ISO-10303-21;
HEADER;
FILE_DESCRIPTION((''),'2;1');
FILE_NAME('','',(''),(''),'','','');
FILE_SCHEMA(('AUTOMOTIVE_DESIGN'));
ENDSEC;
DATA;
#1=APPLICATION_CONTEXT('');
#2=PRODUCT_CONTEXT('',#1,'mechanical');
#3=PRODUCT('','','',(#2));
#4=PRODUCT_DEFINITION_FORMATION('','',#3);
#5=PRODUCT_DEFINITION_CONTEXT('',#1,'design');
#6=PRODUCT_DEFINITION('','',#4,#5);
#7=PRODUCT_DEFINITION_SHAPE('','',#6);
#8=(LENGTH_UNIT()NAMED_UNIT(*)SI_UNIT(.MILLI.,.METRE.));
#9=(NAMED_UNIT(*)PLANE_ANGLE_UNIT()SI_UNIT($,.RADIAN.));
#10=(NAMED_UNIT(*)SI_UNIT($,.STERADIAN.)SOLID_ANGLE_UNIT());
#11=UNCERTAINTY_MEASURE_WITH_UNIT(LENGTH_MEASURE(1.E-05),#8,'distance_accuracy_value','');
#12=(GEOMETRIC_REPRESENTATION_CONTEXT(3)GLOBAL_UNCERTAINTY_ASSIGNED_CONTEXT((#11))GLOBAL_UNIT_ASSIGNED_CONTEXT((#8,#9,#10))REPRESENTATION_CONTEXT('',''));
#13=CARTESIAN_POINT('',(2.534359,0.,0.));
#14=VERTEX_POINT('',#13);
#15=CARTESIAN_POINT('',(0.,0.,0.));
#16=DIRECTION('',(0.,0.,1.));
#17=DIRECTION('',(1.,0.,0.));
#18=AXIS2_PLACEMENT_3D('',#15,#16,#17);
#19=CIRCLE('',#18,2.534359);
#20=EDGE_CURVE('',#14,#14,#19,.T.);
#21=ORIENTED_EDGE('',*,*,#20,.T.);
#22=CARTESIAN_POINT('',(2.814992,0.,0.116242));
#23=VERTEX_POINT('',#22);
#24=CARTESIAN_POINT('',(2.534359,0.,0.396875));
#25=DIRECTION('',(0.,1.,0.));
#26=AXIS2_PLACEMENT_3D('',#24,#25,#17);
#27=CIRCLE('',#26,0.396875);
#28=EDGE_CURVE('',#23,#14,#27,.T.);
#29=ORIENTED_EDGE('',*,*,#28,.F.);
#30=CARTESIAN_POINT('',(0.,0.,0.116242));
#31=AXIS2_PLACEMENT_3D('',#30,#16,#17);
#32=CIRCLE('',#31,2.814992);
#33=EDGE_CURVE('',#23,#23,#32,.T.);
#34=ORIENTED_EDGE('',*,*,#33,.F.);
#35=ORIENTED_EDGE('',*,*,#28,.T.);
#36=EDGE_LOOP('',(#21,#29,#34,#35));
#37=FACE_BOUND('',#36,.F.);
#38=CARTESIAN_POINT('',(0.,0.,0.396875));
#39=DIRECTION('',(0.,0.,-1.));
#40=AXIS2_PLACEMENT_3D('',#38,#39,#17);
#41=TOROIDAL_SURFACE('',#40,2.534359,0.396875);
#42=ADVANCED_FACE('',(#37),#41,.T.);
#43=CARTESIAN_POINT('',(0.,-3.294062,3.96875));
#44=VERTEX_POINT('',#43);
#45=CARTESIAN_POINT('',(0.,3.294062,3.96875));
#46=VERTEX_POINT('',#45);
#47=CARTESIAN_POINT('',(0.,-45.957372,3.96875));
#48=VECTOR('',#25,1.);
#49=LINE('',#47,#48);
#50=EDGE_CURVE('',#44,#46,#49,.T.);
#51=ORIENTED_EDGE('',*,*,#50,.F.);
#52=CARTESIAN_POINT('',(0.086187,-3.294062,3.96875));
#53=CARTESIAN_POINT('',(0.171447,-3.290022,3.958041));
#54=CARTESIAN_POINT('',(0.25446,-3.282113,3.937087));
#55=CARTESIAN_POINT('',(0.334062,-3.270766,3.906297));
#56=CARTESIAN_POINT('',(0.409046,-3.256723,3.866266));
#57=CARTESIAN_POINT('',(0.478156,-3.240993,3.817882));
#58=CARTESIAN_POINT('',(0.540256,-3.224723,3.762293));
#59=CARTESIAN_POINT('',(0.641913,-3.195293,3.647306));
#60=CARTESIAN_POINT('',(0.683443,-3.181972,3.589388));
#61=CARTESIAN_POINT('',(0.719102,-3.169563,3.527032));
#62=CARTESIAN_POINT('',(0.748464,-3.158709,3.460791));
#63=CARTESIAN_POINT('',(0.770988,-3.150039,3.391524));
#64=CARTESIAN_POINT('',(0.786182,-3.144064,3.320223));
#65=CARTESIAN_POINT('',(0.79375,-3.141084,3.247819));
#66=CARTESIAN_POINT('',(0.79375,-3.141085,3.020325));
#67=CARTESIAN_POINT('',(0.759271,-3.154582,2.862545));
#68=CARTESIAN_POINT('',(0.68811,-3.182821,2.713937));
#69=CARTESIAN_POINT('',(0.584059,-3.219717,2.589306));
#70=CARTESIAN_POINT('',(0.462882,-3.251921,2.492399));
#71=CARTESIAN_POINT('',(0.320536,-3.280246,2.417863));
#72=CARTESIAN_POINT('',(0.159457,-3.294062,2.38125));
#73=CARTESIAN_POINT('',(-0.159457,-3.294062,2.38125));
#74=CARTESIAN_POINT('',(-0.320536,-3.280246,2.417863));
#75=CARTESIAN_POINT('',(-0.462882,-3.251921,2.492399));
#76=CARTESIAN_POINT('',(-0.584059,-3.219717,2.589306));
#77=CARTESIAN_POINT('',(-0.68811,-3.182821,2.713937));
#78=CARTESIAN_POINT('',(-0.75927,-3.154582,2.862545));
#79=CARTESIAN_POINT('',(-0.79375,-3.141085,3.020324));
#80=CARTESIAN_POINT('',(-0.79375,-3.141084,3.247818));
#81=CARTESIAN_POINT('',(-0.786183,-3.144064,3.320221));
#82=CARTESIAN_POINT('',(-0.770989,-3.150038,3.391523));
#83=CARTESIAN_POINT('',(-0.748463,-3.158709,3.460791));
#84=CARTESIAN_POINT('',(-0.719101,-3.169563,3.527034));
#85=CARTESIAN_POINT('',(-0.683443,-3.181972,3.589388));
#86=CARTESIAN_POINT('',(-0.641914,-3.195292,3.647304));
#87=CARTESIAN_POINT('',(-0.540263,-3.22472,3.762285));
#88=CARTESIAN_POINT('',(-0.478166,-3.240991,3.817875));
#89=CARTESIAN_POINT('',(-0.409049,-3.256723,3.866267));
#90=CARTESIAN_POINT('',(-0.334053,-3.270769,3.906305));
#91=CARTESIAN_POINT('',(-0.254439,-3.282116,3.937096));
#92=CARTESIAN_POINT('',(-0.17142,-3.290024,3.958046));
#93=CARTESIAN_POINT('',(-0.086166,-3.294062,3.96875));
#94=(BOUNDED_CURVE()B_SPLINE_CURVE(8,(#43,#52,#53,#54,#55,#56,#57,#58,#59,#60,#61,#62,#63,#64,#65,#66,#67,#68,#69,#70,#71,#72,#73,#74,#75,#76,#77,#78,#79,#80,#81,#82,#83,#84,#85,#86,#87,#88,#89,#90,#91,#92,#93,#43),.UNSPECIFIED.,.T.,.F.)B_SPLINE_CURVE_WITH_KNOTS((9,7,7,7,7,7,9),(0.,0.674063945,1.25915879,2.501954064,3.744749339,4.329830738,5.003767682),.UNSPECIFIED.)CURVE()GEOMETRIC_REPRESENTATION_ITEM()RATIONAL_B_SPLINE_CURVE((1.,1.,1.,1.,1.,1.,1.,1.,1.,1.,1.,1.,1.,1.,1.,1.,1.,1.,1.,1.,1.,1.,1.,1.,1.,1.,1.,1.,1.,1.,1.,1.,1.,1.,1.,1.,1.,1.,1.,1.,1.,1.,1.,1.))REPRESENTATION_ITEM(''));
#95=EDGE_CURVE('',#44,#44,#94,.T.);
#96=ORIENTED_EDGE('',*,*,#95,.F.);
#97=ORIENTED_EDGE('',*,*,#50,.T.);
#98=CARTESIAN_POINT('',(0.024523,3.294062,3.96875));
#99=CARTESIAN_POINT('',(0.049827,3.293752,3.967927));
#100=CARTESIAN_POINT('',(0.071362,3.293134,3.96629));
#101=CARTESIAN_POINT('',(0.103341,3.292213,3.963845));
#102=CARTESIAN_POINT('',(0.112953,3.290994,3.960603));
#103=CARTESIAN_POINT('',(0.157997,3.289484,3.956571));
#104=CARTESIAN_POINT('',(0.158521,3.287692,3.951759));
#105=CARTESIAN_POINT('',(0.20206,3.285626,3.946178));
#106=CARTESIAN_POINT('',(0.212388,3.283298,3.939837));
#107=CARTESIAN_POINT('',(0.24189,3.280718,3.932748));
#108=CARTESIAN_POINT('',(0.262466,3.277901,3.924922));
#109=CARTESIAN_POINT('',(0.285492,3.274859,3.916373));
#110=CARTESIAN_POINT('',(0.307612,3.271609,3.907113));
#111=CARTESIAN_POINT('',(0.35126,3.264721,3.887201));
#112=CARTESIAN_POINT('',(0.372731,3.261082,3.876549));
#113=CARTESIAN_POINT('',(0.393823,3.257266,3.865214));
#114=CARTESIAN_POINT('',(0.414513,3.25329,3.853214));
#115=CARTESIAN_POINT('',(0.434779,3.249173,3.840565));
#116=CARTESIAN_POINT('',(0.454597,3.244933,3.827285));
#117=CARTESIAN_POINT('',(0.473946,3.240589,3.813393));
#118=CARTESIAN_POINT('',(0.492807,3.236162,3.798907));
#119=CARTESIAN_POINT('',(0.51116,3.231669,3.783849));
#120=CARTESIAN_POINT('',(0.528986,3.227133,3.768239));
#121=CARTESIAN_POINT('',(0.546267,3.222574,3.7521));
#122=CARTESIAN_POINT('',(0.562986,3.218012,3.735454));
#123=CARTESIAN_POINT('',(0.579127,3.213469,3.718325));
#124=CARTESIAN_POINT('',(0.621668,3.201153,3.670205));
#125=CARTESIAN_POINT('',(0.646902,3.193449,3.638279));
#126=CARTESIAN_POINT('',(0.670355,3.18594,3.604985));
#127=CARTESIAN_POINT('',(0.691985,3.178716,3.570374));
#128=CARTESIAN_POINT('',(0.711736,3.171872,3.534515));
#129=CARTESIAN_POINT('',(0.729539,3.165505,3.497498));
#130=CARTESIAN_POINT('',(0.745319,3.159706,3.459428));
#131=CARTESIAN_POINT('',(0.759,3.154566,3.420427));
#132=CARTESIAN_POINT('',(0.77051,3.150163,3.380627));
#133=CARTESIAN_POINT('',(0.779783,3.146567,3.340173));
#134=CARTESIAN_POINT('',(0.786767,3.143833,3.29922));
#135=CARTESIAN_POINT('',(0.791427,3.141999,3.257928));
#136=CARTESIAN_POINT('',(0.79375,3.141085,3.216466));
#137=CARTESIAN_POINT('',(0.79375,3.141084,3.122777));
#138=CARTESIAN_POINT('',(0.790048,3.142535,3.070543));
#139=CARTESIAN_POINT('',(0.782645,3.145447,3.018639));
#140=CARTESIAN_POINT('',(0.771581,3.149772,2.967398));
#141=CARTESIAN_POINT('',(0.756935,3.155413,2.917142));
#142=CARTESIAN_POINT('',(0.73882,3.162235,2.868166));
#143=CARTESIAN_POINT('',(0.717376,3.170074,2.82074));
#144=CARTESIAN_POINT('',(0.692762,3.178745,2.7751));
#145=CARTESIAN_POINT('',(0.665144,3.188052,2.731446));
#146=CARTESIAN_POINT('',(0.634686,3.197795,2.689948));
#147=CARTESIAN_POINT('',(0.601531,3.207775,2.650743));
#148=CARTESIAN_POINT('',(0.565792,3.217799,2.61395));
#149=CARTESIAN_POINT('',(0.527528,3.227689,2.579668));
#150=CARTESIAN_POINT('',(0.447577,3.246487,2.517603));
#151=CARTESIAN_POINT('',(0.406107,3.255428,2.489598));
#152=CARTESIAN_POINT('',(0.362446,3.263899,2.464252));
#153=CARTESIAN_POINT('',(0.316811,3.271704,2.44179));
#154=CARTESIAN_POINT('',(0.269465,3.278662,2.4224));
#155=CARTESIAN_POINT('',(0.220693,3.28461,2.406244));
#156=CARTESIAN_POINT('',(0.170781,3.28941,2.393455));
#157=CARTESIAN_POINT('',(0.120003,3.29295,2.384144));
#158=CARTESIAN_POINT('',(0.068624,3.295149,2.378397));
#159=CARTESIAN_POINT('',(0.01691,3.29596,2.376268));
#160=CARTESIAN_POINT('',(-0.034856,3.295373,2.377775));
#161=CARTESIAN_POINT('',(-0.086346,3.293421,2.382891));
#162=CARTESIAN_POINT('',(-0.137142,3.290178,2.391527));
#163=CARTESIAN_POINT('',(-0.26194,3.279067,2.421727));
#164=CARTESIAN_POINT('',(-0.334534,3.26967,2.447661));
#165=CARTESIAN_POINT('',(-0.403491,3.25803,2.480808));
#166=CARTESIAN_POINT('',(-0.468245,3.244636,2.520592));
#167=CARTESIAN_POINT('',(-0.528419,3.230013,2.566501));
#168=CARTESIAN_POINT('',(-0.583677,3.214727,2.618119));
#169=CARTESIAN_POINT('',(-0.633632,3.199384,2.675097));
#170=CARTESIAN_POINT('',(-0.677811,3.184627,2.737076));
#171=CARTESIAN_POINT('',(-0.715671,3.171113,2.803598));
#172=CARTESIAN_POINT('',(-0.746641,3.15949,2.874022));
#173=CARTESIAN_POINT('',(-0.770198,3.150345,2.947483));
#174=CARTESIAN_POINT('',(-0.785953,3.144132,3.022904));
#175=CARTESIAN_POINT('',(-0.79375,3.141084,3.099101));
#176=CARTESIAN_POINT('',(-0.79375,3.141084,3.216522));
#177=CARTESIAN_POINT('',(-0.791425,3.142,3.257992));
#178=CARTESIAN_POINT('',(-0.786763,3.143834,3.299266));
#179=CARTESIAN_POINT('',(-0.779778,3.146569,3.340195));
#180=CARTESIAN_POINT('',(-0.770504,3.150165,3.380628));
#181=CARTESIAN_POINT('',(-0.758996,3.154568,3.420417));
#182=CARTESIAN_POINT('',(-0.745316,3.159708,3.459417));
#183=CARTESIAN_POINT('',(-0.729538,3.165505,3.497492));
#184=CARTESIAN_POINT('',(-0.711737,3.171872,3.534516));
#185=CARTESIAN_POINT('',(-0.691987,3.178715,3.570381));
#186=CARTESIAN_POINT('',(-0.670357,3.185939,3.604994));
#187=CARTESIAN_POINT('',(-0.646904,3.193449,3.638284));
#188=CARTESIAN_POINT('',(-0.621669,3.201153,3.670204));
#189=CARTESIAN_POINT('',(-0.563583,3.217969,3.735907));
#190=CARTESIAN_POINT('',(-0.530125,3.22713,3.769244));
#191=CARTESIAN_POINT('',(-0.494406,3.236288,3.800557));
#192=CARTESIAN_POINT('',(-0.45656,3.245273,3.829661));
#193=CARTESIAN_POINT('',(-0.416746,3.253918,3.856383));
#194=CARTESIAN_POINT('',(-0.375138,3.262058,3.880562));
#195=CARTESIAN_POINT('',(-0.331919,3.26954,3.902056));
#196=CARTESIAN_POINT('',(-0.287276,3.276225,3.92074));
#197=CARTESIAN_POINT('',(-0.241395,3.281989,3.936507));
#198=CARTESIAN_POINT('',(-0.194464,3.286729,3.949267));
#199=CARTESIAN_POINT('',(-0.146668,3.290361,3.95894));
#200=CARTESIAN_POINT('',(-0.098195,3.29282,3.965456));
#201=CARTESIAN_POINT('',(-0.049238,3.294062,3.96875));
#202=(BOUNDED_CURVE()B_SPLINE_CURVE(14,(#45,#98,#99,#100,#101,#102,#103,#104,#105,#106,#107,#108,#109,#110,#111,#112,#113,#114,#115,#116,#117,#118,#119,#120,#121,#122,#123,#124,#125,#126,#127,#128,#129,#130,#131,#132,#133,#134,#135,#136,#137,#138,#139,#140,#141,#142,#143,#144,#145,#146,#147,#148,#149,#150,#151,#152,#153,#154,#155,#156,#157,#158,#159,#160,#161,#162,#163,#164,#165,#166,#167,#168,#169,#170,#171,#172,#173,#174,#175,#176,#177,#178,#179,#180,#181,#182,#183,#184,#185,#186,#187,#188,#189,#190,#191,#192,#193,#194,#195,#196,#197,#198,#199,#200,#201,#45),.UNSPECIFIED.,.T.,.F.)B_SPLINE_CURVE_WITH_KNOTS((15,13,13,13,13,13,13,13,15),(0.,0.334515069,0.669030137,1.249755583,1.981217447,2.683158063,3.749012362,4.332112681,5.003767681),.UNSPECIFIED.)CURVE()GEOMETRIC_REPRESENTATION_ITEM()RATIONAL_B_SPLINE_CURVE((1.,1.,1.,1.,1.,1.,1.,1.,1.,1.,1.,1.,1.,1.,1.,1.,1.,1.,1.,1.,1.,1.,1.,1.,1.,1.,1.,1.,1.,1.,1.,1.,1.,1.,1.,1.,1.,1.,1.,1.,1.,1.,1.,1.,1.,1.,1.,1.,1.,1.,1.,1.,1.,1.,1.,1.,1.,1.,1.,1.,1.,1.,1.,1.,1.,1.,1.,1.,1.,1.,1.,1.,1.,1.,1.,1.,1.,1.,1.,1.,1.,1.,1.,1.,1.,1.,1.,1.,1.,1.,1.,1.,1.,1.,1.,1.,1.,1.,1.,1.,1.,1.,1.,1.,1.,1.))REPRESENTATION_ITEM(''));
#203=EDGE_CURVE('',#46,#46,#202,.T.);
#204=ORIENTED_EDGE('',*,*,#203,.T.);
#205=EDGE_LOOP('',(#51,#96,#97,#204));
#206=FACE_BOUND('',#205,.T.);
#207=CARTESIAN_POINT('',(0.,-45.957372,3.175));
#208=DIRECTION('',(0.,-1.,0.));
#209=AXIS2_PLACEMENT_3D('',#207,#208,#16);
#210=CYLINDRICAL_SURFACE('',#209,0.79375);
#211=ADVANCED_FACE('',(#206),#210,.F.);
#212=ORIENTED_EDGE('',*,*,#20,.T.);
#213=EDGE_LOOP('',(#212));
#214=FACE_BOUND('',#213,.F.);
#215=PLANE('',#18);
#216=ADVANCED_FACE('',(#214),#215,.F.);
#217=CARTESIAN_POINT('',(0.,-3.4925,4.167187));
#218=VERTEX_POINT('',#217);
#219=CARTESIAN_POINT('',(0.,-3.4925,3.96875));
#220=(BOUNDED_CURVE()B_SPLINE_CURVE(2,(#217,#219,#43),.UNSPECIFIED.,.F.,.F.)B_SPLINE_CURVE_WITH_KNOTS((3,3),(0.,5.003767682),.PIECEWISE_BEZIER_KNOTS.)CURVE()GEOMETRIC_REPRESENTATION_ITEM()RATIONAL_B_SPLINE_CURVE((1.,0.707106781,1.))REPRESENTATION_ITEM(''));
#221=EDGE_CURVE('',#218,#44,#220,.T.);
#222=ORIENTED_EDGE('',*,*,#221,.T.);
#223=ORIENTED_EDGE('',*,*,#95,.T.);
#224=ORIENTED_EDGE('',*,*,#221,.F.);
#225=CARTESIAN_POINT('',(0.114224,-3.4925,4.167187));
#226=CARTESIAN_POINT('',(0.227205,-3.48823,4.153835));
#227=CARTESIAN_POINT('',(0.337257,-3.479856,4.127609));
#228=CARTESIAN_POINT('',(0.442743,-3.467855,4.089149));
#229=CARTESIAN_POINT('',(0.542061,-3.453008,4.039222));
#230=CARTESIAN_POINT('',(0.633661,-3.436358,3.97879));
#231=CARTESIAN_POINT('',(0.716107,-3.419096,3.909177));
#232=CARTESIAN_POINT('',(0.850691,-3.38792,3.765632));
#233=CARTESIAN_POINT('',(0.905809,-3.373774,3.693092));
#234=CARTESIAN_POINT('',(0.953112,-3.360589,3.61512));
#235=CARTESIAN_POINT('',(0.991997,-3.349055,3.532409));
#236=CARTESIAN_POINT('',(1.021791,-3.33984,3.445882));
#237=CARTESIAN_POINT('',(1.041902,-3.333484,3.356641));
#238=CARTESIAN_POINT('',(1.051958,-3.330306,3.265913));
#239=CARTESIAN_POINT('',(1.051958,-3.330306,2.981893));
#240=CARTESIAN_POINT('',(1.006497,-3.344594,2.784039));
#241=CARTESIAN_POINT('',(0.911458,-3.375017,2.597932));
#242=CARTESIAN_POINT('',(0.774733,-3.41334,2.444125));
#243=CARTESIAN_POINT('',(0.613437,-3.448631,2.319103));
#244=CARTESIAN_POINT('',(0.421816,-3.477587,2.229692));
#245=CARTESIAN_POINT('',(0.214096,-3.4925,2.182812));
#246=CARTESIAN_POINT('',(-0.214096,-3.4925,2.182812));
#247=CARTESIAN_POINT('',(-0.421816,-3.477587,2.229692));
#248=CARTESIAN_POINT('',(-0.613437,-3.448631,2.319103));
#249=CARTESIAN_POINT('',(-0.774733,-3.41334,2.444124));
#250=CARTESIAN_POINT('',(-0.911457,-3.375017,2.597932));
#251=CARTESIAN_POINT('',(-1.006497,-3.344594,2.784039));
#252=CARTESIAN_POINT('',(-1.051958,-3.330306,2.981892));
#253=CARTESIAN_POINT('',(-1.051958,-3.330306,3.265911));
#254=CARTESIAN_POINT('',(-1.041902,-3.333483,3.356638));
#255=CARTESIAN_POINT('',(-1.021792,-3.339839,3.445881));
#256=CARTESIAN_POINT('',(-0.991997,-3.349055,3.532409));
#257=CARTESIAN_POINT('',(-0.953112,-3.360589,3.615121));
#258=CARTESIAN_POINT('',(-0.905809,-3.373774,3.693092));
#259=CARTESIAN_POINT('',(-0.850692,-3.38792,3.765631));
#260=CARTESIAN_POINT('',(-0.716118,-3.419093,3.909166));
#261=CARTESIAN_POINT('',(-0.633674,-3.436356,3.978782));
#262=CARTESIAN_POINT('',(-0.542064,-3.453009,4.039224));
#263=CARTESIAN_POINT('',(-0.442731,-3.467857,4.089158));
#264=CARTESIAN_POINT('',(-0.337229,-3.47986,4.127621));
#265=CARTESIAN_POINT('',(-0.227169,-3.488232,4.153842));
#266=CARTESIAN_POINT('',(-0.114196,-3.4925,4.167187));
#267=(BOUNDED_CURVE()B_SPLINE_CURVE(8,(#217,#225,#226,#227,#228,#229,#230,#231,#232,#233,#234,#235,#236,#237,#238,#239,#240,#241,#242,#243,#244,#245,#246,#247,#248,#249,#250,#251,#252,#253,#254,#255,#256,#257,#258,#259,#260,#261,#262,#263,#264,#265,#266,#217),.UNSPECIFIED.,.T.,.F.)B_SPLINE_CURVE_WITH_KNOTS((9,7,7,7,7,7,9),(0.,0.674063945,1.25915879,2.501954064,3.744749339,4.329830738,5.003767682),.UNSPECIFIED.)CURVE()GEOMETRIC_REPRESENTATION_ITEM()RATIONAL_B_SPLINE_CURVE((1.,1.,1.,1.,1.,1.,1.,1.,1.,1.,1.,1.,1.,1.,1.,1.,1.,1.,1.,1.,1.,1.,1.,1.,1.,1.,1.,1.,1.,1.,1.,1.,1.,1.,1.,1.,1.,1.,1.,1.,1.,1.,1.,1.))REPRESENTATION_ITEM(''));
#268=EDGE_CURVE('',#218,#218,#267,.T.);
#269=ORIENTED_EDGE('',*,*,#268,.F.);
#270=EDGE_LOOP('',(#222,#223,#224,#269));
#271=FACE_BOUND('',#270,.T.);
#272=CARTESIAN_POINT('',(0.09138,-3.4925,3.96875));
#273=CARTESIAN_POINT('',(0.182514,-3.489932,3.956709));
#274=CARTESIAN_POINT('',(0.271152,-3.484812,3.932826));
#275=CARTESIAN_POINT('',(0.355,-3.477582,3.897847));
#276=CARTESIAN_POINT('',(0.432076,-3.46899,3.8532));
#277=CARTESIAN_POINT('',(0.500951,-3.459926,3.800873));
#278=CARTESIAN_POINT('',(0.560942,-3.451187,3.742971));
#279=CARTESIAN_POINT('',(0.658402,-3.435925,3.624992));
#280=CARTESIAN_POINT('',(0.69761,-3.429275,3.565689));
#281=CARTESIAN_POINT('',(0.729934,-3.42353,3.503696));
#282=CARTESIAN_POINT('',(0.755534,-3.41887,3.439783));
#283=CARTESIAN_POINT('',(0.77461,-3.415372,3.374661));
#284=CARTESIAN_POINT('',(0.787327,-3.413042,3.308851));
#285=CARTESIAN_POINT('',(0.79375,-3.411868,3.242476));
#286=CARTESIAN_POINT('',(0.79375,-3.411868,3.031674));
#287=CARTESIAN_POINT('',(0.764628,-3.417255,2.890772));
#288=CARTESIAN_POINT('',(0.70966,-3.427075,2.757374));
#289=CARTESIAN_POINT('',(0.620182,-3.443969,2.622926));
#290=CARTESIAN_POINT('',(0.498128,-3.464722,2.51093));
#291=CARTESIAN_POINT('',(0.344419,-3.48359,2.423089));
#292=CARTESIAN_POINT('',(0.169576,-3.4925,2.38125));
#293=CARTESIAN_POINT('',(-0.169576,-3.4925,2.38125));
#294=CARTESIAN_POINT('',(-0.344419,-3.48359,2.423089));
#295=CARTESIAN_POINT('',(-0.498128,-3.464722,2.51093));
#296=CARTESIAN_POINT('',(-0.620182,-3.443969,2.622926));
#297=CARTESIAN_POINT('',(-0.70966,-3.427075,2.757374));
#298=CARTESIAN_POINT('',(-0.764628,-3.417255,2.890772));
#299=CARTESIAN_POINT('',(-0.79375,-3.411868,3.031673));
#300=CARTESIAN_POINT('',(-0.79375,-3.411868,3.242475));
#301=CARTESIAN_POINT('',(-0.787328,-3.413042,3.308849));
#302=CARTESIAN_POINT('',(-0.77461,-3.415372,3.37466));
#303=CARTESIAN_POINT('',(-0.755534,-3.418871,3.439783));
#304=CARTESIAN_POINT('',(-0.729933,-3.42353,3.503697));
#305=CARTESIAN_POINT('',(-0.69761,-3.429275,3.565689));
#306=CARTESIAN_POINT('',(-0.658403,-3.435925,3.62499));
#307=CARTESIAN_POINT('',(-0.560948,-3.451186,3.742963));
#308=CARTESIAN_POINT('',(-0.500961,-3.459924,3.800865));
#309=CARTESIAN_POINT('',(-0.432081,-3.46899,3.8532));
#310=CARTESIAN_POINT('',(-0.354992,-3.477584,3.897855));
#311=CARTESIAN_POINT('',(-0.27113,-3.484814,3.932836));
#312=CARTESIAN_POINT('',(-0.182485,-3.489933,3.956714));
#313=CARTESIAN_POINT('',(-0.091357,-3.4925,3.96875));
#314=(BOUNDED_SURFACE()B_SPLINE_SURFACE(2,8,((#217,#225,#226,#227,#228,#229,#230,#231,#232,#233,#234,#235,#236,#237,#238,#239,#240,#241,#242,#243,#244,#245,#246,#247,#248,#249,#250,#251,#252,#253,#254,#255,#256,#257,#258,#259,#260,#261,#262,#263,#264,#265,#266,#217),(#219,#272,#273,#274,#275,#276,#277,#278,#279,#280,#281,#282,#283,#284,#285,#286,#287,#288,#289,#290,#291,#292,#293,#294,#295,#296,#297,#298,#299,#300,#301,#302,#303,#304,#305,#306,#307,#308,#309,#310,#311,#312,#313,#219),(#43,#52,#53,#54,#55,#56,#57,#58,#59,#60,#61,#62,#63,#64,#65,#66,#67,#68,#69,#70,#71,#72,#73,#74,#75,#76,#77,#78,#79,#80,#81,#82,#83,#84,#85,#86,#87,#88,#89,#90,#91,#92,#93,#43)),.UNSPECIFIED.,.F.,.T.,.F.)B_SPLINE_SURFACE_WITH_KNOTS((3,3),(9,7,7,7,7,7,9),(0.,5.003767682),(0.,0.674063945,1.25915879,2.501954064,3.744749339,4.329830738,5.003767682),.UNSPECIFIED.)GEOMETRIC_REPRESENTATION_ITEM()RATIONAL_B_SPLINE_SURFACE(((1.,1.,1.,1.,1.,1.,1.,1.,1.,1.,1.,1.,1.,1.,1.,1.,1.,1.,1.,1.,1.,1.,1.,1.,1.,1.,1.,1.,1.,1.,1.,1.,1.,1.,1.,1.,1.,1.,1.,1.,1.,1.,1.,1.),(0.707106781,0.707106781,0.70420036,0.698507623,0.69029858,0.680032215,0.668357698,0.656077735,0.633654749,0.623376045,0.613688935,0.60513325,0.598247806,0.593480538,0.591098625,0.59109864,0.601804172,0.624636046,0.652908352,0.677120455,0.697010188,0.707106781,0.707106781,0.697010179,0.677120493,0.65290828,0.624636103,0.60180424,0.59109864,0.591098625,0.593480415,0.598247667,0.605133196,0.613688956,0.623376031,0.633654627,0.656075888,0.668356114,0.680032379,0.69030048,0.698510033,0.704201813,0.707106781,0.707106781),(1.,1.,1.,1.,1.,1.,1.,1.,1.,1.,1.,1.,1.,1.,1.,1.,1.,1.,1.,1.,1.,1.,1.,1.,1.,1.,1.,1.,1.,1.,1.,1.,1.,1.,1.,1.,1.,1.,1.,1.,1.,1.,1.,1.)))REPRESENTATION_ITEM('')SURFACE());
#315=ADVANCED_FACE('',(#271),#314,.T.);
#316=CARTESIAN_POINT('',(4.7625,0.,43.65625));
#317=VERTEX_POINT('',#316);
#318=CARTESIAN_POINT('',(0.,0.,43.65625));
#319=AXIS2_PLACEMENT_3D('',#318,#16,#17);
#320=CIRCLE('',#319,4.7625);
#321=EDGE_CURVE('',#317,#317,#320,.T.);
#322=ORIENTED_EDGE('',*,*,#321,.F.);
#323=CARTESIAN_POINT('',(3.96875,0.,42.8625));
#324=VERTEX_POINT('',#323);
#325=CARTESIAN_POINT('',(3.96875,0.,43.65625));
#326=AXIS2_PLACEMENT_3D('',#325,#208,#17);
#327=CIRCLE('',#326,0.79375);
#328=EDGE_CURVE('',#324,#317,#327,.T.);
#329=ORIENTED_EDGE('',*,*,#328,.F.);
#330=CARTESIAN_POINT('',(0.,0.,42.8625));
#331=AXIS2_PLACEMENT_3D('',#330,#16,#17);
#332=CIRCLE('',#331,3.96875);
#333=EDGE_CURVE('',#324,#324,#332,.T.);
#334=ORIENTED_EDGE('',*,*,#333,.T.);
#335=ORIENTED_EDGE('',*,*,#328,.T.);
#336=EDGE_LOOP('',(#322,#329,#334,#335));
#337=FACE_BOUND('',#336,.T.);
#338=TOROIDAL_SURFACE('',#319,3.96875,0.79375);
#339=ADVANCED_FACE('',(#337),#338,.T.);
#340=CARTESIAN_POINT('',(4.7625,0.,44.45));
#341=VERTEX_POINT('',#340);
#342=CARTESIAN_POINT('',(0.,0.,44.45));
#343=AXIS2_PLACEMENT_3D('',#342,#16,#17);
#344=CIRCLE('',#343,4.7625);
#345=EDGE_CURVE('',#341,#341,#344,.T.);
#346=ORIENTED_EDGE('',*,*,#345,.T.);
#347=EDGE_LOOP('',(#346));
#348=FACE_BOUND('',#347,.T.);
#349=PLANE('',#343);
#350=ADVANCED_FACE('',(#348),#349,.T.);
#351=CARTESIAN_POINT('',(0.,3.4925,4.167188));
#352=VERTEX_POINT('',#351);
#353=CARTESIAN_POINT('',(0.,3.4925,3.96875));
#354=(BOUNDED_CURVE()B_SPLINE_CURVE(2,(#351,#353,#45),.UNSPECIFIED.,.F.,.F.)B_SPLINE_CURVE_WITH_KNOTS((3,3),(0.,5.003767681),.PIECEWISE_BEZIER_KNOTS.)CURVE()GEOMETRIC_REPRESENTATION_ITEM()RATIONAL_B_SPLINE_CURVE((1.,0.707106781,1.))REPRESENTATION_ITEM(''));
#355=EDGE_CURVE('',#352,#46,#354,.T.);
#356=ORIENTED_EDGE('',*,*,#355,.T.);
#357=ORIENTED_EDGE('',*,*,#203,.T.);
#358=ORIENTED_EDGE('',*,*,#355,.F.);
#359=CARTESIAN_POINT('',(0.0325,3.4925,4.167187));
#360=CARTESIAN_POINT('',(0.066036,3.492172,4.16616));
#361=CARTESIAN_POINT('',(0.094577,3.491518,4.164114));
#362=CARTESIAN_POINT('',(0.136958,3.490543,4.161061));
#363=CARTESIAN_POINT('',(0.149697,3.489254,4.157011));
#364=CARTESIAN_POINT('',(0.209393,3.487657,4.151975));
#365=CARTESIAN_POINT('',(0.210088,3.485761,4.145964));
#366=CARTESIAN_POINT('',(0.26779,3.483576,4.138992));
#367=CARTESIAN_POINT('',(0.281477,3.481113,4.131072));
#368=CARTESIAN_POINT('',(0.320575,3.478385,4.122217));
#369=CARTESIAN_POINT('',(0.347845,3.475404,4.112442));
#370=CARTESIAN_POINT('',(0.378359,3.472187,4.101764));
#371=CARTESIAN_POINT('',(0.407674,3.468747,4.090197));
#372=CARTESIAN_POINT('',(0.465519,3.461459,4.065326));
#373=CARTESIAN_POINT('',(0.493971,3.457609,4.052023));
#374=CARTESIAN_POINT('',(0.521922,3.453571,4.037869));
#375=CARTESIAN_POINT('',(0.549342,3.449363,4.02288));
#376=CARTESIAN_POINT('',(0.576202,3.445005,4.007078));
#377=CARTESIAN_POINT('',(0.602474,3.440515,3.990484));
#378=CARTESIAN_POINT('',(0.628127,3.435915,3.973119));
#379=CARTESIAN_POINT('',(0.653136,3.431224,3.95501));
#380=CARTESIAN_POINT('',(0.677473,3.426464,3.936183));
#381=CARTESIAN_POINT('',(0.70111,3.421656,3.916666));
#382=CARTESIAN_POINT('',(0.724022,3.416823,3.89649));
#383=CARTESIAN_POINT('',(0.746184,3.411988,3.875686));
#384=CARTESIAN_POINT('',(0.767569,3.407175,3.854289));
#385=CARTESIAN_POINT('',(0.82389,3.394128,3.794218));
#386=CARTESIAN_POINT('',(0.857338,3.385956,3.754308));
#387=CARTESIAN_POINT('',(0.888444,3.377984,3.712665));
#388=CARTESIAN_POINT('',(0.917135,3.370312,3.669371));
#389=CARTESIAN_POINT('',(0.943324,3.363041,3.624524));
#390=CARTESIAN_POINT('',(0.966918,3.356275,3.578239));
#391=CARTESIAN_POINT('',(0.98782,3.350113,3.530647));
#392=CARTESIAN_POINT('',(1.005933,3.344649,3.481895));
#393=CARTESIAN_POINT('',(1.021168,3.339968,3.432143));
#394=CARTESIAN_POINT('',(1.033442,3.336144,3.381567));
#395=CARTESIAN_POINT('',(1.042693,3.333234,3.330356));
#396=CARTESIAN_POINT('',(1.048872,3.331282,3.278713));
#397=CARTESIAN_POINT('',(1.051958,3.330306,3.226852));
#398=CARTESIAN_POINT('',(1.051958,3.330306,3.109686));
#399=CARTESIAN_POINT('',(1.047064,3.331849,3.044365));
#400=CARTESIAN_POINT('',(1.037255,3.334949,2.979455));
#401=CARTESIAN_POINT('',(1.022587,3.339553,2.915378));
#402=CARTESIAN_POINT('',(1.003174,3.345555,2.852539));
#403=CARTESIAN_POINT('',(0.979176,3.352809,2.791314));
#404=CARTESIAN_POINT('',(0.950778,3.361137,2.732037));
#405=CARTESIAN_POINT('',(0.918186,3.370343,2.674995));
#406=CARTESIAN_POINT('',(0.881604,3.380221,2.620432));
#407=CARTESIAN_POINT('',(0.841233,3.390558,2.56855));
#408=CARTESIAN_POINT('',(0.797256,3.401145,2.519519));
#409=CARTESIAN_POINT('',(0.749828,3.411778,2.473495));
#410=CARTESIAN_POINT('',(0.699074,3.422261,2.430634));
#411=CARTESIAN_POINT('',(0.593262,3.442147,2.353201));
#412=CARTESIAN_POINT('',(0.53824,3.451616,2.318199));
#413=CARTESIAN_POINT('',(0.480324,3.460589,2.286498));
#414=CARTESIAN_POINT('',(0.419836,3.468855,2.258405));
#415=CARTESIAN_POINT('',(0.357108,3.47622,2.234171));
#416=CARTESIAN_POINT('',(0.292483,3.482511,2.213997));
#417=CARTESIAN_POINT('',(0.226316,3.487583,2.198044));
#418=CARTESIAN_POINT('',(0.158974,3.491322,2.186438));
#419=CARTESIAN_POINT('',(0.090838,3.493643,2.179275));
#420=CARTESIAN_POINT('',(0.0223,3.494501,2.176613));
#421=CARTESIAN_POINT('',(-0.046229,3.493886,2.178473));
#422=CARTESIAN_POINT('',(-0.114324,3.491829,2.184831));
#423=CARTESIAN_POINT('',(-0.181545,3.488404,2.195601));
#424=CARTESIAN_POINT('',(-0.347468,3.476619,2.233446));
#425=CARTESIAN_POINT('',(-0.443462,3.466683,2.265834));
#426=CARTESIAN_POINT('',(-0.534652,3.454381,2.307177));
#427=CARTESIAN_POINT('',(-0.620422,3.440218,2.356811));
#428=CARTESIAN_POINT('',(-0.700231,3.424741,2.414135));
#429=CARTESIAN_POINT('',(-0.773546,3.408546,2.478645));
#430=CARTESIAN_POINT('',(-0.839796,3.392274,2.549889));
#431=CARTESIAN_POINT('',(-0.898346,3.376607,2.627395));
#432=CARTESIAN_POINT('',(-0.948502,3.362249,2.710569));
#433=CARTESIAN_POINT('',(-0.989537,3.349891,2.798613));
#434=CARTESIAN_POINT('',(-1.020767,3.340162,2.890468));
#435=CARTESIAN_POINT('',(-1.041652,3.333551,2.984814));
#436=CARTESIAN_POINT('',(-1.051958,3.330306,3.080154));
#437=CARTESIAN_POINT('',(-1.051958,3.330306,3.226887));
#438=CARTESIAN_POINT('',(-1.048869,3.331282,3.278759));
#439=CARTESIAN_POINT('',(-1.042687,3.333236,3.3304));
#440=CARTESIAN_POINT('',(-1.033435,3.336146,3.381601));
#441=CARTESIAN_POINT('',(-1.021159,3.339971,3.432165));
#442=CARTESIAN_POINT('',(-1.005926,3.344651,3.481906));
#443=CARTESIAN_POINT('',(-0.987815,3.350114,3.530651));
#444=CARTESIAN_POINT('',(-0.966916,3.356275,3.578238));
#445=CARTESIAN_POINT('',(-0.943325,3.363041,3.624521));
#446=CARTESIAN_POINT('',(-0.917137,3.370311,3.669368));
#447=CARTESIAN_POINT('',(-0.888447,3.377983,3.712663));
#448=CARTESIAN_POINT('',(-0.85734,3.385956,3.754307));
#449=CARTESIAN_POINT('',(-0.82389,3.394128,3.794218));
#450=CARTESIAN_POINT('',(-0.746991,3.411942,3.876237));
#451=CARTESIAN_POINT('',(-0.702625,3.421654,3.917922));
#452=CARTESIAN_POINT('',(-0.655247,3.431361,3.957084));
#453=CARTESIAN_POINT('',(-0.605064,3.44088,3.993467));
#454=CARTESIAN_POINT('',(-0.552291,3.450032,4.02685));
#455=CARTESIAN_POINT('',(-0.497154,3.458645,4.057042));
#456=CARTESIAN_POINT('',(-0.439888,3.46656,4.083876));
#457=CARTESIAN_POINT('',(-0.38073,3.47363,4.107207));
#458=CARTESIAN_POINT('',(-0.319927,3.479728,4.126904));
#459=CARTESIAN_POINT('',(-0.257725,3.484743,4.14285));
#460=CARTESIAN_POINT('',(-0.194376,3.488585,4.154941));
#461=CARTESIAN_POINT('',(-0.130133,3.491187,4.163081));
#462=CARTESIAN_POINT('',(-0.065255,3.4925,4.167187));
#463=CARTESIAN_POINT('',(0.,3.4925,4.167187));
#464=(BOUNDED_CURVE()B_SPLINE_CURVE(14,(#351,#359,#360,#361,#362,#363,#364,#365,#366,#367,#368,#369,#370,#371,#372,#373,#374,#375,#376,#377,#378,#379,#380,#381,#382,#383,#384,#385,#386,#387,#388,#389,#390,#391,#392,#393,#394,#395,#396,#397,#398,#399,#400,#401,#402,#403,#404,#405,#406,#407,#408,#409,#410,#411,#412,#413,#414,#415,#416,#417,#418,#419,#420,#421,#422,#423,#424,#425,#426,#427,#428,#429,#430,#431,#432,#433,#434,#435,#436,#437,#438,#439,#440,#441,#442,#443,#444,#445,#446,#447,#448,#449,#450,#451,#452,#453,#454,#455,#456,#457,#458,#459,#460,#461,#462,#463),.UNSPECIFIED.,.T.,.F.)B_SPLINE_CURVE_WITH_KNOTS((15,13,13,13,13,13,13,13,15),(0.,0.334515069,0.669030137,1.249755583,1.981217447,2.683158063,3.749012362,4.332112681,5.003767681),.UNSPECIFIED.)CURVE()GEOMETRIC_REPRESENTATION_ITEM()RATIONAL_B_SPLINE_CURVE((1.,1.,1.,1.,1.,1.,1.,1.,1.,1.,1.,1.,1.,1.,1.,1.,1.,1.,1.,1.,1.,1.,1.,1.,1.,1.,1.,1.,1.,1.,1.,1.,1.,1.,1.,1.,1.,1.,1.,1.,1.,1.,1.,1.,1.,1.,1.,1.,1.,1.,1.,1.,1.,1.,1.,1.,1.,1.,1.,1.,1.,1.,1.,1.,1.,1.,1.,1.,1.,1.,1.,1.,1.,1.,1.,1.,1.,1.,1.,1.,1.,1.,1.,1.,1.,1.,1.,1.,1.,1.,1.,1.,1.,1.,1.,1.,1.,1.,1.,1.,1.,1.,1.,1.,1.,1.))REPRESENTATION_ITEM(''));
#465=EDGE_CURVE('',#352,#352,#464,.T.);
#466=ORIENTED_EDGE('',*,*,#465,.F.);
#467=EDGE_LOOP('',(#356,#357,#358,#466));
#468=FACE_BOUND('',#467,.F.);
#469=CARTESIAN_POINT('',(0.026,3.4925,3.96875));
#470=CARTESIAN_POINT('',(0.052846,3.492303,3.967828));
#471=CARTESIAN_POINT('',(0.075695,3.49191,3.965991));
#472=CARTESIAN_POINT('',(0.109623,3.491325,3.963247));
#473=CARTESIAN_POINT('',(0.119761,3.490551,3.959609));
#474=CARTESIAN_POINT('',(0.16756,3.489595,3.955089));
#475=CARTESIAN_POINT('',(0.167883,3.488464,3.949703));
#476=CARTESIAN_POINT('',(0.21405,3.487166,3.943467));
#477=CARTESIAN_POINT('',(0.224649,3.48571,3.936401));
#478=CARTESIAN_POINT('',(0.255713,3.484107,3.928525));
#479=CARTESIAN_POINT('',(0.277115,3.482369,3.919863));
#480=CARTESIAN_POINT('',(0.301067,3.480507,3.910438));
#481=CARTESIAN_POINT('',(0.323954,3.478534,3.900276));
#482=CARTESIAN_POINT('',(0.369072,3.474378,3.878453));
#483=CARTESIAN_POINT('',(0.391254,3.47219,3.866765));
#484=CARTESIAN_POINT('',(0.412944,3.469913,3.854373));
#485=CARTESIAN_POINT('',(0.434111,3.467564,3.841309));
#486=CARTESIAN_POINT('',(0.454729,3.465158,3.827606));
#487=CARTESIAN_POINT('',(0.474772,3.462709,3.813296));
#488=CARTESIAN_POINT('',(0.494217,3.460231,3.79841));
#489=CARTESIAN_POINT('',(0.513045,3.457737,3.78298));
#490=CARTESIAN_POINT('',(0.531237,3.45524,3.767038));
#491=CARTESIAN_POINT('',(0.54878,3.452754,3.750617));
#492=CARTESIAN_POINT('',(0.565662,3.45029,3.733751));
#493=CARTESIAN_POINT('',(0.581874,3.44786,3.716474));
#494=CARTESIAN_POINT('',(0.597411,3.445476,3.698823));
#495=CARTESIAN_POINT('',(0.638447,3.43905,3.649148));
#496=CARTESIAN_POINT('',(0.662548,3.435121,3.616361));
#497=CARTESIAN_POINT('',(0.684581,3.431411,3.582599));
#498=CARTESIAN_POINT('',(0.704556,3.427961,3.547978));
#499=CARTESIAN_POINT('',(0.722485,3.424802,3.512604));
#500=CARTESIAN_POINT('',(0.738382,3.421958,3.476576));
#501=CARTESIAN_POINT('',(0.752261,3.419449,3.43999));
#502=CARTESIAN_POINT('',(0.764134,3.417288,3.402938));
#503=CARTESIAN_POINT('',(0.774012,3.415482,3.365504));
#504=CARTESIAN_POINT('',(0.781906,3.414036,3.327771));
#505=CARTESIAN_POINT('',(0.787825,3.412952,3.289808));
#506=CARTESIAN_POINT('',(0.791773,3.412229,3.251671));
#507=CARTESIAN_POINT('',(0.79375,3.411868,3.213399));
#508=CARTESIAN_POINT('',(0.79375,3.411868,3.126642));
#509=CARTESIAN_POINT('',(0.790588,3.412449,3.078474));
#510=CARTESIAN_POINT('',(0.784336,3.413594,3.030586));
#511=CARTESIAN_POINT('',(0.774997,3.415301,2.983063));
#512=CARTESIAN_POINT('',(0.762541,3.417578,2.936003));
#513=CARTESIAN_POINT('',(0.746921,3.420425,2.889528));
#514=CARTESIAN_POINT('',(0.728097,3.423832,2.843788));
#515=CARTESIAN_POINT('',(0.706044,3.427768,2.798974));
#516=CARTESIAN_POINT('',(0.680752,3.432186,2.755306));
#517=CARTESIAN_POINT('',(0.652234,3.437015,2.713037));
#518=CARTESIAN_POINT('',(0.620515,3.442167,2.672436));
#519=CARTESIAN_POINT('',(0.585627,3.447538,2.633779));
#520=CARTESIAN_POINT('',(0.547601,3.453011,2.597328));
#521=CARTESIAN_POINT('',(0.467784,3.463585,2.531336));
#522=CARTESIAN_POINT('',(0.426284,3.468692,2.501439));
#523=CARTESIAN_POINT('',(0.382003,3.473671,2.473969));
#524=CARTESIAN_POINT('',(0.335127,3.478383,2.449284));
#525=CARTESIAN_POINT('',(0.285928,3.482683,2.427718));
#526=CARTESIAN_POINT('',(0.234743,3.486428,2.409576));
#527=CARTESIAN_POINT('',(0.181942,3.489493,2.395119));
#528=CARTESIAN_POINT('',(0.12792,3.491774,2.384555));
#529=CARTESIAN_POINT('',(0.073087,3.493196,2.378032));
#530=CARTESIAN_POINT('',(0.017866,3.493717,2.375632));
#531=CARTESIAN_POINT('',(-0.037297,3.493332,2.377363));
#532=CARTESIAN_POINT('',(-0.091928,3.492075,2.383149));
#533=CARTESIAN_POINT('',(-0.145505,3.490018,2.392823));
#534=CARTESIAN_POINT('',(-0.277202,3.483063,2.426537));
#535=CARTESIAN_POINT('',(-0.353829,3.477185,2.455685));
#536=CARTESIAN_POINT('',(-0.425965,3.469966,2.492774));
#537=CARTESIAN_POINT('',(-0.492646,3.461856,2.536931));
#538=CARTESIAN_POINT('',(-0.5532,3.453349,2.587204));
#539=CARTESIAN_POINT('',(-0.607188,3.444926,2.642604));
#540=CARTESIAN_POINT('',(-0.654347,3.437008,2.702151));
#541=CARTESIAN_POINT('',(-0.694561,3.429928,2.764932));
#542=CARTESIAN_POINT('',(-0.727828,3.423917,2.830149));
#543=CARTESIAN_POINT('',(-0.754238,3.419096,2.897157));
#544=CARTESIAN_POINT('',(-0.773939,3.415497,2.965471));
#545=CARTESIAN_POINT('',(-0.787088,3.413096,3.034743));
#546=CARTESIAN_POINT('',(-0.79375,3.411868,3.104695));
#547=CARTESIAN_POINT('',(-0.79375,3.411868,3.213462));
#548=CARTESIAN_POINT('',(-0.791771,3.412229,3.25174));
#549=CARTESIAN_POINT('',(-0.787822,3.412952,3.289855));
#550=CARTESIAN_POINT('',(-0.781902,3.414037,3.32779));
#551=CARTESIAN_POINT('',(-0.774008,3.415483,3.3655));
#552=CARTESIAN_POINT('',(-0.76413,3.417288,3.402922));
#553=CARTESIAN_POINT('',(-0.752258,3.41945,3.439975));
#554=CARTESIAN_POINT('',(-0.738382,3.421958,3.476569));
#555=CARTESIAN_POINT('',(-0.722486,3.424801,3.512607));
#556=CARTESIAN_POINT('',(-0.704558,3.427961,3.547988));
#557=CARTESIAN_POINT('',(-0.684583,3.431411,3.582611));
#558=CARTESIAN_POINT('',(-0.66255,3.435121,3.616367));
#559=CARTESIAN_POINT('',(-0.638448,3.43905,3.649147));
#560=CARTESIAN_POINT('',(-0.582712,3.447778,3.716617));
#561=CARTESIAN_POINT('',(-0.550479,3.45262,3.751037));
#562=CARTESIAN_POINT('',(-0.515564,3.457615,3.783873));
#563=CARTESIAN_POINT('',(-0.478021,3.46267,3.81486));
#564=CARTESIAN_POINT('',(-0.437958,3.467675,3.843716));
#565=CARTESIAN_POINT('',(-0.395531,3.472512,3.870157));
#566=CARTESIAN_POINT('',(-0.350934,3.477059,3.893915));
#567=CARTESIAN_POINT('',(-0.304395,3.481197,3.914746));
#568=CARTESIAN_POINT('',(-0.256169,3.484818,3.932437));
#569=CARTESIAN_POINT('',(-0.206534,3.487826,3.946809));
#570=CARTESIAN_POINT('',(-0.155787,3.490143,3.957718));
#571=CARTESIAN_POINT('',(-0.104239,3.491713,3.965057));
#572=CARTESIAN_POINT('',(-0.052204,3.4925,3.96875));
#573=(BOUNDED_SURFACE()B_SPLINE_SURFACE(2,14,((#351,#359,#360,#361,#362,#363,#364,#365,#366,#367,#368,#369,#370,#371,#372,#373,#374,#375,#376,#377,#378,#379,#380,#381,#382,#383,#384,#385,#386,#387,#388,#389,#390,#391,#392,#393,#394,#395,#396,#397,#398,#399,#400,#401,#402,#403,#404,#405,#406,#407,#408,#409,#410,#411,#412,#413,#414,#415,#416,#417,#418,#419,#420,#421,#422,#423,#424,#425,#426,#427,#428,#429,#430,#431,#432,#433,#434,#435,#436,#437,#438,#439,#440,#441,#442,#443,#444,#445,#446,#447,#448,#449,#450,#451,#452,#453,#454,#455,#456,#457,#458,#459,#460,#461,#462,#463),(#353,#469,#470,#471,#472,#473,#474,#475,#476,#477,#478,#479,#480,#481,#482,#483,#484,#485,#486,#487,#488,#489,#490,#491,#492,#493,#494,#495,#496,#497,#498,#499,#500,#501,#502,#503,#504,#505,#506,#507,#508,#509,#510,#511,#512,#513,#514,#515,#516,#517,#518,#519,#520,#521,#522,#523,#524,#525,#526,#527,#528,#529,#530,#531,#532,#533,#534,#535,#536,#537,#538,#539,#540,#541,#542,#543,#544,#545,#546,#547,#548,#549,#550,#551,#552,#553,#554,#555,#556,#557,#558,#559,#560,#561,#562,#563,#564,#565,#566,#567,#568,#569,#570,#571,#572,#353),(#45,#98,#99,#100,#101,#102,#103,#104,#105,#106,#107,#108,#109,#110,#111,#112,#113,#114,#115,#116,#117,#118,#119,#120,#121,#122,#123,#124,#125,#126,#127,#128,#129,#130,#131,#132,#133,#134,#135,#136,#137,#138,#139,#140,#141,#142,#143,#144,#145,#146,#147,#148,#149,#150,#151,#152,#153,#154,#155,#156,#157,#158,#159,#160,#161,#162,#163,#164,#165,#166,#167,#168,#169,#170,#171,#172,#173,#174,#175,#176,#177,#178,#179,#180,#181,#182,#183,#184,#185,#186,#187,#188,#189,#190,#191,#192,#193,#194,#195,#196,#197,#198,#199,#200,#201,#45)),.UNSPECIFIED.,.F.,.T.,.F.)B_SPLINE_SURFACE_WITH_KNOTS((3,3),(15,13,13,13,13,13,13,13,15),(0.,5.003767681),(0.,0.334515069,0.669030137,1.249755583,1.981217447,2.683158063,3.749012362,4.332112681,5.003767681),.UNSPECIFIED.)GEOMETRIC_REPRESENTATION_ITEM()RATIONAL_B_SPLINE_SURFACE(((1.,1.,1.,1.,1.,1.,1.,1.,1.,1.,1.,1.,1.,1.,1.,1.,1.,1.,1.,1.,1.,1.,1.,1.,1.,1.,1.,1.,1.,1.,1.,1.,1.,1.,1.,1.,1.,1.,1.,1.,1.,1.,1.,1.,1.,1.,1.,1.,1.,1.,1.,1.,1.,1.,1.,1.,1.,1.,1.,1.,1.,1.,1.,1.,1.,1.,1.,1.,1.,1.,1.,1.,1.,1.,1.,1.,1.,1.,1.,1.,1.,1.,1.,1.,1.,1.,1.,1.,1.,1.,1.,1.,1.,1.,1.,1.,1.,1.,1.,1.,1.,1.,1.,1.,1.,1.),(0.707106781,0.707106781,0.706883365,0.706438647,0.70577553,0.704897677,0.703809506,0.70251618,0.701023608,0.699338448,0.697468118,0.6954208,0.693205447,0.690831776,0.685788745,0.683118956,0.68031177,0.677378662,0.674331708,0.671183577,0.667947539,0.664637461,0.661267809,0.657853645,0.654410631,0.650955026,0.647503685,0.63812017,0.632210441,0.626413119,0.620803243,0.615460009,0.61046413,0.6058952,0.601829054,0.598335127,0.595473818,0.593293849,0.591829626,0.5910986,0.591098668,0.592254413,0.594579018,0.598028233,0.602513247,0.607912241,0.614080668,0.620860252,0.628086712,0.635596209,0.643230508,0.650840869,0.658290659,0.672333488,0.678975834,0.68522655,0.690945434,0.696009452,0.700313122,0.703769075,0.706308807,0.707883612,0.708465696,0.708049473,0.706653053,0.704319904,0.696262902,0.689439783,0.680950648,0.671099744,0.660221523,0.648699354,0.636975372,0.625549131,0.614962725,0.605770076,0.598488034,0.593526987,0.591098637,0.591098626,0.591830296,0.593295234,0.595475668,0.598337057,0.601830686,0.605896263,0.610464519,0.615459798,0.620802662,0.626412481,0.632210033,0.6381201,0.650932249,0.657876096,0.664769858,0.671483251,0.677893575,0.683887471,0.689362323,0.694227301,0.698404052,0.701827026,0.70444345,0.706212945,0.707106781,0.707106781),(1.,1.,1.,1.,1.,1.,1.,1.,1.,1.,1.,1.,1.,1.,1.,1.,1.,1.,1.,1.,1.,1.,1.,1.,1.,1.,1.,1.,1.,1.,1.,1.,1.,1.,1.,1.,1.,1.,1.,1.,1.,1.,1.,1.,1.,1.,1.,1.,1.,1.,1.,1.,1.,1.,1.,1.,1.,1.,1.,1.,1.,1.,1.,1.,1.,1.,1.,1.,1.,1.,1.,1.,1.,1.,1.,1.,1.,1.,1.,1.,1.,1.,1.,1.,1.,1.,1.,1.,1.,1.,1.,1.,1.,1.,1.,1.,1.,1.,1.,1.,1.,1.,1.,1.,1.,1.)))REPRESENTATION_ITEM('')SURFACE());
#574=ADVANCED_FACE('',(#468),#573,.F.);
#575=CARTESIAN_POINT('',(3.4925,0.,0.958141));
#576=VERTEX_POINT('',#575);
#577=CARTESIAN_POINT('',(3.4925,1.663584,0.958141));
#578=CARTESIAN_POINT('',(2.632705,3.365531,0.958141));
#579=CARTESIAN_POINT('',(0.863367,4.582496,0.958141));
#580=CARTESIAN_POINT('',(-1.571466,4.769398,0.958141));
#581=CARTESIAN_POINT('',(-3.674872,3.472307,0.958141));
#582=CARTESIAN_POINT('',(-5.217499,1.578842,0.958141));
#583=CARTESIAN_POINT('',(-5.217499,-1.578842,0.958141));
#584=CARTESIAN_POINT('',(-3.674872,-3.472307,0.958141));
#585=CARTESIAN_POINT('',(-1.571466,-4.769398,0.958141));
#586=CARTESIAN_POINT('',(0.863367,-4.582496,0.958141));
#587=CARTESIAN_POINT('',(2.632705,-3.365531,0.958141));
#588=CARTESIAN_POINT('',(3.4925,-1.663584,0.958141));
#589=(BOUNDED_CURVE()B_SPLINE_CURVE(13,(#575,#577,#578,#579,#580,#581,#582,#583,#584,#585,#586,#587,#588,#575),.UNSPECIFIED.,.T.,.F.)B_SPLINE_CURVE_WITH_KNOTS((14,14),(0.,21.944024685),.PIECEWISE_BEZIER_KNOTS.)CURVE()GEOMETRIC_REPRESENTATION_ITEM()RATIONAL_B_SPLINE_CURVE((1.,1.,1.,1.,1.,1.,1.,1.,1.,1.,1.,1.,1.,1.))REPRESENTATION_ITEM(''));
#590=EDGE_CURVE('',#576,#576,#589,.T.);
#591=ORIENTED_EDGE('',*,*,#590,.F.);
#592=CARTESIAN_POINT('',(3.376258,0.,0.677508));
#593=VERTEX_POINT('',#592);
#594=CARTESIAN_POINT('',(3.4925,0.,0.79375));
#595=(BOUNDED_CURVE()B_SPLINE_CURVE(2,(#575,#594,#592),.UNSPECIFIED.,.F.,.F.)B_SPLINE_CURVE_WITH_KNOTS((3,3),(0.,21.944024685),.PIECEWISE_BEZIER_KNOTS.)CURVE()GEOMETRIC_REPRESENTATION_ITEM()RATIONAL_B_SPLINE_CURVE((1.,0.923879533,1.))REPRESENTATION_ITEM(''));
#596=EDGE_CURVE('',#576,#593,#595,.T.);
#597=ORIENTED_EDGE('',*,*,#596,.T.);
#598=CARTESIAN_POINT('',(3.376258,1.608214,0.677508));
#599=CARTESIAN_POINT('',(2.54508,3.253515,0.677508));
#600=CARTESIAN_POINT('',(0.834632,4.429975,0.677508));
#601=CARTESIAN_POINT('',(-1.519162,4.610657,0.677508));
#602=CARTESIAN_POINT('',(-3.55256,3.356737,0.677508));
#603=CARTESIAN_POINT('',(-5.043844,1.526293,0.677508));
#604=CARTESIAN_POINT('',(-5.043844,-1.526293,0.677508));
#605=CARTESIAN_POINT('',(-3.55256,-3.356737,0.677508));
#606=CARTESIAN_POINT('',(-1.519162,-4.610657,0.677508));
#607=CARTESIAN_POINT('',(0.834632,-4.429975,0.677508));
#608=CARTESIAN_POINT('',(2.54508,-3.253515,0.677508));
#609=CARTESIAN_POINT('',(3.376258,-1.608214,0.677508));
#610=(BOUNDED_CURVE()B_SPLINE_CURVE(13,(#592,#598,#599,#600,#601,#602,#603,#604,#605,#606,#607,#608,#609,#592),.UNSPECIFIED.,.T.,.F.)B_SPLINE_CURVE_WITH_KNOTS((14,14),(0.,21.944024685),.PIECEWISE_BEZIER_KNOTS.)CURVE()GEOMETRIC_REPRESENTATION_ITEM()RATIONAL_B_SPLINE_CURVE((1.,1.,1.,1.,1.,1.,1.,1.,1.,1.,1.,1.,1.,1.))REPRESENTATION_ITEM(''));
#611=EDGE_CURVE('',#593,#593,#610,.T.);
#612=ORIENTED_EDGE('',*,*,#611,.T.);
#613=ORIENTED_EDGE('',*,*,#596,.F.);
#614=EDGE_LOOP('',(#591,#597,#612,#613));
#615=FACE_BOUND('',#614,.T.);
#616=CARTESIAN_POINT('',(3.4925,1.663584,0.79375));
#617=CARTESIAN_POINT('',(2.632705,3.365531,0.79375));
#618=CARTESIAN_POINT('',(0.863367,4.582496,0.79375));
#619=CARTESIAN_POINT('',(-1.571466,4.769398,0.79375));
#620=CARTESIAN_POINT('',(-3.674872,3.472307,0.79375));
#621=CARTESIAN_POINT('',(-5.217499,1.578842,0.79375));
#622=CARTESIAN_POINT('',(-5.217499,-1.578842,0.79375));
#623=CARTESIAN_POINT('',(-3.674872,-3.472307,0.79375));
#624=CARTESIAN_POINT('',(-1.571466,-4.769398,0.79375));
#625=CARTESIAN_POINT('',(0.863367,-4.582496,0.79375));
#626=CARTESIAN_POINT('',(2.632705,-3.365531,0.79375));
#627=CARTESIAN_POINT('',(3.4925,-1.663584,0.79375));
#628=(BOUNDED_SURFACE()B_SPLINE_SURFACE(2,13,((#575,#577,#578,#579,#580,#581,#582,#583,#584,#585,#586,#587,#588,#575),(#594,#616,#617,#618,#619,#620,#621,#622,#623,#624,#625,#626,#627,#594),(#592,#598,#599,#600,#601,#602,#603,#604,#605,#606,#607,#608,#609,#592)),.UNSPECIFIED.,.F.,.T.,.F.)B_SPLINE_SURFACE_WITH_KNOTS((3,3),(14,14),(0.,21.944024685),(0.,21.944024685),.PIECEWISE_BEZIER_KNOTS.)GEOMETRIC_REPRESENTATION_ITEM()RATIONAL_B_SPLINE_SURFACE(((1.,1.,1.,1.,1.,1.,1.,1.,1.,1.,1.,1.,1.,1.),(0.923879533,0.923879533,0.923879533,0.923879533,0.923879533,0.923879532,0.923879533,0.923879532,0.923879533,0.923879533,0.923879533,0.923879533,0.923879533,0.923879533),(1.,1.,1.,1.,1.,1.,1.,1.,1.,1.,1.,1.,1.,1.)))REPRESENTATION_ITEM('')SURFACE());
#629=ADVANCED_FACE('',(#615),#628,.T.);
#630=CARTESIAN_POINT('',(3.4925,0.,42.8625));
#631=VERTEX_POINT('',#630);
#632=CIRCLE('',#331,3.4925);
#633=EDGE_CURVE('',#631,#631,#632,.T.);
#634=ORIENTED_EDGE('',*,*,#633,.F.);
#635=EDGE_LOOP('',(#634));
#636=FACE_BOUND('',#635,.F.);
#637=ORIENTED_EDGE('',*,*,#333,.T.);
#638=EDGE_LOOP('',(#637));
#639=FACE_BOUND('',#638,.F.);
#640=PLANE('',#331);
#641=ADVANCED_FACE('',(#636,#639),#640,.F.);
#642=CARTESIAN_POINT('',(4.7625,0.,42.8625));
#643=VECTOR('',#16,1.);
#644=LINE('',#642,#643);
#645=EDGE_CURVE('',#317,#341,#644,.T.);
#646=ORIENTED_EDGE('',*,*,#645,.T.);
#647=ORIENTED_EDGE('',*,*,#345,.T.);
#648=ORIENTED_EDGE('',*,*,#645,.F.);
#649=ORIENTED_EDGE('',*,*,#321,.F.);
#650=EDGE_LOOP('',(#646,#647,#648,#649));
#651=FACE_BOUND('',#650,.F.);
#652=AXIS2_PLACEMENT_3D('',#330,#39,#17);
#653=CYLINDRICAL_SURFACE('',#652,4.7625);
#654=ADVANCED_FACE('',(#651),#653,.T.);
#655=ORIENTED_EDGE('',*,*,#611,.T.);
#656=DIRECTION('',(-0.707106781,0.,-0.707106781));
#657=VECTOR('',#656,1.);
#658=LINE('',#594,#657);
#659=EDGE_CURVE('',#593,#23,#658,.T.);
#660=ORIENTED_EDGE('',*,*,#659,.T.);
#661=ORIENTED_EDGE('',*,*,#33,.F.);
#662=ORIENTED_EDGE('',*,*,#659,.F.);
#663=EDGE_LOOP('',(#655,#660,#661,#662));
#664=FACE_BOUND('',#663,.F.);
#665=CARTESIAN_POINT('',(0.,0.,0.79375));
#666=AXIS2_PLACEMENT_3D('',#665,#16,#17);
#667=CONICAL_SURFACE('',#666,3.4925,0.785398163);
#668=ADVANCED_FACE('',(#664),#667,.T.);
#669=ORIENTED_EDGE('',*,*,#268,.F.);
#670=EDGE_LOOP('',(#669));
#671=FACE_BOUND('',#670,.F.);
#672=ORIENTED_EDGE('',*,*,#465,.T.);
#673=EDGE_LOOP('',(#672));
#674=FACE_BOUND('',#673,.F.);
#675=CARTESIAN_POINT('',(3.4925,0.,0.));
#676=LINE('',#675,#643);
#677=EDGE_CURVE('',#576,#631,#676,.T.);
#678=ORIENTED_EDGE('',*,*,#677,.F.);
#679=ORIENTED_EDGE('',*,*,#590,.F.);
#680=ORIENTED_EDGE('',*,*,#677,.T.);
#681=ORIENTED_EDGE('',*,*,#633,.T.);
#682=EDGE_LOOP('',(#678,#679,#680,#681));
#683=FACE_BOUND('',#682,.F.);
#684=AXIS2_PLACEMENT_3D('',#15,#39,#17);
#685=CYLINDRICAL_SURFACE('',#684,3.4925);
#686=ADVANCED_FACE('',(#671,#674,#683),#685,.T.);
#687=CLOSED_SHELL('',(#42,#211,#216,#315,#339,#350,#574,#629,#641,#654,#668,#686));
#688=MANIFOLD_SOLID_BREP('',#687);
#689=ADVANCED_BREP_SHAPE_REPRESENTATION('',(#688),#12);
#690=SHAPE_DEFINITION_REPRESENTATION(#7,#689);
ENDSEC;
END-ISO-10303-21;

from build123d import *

# Parameters (mm, degrees)
SKETCH1_R               = 3.4925
BOSS_EXTRUDE1_DEPTH     = 42.8625
SKETCH2_R               = 4.7625
BOSS_EXTRUDE2_DEPTH     = 1.5875
CUT_EXTRUDE1_DEPTH      = 45.957372171
CUT_EXTRUDE1_DEPTH_BACK = 45.957372171
SKETCH3_R               = 0.79375
FILLET1_R               = 0.1984375
FILLET3_R               = 0.79375
CHAMFER1_SIZE           = 0.79375
FILLET4_R               = 0.396875


with BuildPart() as part:
    # Sketch1 → Boss-Extrude1 (new body)
    with BuildSketch(Plane.XY):
        Circle(SKETCH1_R)
    extrude(amount=BOSS_EXTRUDE1_DEPTH)

    # Sketch2 → Boss-Extrude2 (add)
    with BuildSketch(Plane.XY.offset(42.8625)):
        Circle(SKETCH2_R)
    extrude(amount=BOSS_EXTRUDE2_DEPTH)

    # Sketch3 → Cut-Extrude1 (cut, two sides: drawn at the far end of the back side and taken through both)
    with BuildSketch(Plane(origin=(0, 0, 0), x_dir=(1, 0, 0), z_dir=(0, 1, 0)).offset(-CUT_EXTRUDE1_DEPTH_BACK)):
        with Locations(Location((0, -3.175, 0), (0, 0, 270))):
            Circle(SKETCH3_R)
    extrude(amount=CUT_EXTRUDE1_DEPTH + CUT_EXTRUDE1_DEPTH_BACK, mode=Mode.SUBTRACT)

    # Fillet1
    fillet1_edges = [part.edges().sort_by_distance(p)[0] for p in [
        (0, 3.492500009, 2.38125001),
        (0, -3.4925, 2.38125),
    ]]
    fillet(fillet1_edges, radius=FILLET1_R)

    # Fillet3
    fillet3_edges = [part.edges().sort_by_distance(p)[0] for p in [
        (-4.7625, 0, 42.8625),
    ]]
    fillet(fillet3_edges, radius=FILLET3_R)

    # Chamfer1
    chamfer1_edges = [part.edges().sort_by_distance(p)[0] for p in [
        (-3.4925, 0, 0),
    ]]
    chamfer(chamfer1_edges, length=CHAMFER1_SIZE)

    # Fillet4
    fillet4_edges = [part.edges().sort_by_distance(p)[0] for p in [
        (-3.4925, 0, 0.79375),
        (-2.69875, 0, 0),
    ]]
    fillet(fillet4_edges, radius=FILLET4_R)


solid = part.part
